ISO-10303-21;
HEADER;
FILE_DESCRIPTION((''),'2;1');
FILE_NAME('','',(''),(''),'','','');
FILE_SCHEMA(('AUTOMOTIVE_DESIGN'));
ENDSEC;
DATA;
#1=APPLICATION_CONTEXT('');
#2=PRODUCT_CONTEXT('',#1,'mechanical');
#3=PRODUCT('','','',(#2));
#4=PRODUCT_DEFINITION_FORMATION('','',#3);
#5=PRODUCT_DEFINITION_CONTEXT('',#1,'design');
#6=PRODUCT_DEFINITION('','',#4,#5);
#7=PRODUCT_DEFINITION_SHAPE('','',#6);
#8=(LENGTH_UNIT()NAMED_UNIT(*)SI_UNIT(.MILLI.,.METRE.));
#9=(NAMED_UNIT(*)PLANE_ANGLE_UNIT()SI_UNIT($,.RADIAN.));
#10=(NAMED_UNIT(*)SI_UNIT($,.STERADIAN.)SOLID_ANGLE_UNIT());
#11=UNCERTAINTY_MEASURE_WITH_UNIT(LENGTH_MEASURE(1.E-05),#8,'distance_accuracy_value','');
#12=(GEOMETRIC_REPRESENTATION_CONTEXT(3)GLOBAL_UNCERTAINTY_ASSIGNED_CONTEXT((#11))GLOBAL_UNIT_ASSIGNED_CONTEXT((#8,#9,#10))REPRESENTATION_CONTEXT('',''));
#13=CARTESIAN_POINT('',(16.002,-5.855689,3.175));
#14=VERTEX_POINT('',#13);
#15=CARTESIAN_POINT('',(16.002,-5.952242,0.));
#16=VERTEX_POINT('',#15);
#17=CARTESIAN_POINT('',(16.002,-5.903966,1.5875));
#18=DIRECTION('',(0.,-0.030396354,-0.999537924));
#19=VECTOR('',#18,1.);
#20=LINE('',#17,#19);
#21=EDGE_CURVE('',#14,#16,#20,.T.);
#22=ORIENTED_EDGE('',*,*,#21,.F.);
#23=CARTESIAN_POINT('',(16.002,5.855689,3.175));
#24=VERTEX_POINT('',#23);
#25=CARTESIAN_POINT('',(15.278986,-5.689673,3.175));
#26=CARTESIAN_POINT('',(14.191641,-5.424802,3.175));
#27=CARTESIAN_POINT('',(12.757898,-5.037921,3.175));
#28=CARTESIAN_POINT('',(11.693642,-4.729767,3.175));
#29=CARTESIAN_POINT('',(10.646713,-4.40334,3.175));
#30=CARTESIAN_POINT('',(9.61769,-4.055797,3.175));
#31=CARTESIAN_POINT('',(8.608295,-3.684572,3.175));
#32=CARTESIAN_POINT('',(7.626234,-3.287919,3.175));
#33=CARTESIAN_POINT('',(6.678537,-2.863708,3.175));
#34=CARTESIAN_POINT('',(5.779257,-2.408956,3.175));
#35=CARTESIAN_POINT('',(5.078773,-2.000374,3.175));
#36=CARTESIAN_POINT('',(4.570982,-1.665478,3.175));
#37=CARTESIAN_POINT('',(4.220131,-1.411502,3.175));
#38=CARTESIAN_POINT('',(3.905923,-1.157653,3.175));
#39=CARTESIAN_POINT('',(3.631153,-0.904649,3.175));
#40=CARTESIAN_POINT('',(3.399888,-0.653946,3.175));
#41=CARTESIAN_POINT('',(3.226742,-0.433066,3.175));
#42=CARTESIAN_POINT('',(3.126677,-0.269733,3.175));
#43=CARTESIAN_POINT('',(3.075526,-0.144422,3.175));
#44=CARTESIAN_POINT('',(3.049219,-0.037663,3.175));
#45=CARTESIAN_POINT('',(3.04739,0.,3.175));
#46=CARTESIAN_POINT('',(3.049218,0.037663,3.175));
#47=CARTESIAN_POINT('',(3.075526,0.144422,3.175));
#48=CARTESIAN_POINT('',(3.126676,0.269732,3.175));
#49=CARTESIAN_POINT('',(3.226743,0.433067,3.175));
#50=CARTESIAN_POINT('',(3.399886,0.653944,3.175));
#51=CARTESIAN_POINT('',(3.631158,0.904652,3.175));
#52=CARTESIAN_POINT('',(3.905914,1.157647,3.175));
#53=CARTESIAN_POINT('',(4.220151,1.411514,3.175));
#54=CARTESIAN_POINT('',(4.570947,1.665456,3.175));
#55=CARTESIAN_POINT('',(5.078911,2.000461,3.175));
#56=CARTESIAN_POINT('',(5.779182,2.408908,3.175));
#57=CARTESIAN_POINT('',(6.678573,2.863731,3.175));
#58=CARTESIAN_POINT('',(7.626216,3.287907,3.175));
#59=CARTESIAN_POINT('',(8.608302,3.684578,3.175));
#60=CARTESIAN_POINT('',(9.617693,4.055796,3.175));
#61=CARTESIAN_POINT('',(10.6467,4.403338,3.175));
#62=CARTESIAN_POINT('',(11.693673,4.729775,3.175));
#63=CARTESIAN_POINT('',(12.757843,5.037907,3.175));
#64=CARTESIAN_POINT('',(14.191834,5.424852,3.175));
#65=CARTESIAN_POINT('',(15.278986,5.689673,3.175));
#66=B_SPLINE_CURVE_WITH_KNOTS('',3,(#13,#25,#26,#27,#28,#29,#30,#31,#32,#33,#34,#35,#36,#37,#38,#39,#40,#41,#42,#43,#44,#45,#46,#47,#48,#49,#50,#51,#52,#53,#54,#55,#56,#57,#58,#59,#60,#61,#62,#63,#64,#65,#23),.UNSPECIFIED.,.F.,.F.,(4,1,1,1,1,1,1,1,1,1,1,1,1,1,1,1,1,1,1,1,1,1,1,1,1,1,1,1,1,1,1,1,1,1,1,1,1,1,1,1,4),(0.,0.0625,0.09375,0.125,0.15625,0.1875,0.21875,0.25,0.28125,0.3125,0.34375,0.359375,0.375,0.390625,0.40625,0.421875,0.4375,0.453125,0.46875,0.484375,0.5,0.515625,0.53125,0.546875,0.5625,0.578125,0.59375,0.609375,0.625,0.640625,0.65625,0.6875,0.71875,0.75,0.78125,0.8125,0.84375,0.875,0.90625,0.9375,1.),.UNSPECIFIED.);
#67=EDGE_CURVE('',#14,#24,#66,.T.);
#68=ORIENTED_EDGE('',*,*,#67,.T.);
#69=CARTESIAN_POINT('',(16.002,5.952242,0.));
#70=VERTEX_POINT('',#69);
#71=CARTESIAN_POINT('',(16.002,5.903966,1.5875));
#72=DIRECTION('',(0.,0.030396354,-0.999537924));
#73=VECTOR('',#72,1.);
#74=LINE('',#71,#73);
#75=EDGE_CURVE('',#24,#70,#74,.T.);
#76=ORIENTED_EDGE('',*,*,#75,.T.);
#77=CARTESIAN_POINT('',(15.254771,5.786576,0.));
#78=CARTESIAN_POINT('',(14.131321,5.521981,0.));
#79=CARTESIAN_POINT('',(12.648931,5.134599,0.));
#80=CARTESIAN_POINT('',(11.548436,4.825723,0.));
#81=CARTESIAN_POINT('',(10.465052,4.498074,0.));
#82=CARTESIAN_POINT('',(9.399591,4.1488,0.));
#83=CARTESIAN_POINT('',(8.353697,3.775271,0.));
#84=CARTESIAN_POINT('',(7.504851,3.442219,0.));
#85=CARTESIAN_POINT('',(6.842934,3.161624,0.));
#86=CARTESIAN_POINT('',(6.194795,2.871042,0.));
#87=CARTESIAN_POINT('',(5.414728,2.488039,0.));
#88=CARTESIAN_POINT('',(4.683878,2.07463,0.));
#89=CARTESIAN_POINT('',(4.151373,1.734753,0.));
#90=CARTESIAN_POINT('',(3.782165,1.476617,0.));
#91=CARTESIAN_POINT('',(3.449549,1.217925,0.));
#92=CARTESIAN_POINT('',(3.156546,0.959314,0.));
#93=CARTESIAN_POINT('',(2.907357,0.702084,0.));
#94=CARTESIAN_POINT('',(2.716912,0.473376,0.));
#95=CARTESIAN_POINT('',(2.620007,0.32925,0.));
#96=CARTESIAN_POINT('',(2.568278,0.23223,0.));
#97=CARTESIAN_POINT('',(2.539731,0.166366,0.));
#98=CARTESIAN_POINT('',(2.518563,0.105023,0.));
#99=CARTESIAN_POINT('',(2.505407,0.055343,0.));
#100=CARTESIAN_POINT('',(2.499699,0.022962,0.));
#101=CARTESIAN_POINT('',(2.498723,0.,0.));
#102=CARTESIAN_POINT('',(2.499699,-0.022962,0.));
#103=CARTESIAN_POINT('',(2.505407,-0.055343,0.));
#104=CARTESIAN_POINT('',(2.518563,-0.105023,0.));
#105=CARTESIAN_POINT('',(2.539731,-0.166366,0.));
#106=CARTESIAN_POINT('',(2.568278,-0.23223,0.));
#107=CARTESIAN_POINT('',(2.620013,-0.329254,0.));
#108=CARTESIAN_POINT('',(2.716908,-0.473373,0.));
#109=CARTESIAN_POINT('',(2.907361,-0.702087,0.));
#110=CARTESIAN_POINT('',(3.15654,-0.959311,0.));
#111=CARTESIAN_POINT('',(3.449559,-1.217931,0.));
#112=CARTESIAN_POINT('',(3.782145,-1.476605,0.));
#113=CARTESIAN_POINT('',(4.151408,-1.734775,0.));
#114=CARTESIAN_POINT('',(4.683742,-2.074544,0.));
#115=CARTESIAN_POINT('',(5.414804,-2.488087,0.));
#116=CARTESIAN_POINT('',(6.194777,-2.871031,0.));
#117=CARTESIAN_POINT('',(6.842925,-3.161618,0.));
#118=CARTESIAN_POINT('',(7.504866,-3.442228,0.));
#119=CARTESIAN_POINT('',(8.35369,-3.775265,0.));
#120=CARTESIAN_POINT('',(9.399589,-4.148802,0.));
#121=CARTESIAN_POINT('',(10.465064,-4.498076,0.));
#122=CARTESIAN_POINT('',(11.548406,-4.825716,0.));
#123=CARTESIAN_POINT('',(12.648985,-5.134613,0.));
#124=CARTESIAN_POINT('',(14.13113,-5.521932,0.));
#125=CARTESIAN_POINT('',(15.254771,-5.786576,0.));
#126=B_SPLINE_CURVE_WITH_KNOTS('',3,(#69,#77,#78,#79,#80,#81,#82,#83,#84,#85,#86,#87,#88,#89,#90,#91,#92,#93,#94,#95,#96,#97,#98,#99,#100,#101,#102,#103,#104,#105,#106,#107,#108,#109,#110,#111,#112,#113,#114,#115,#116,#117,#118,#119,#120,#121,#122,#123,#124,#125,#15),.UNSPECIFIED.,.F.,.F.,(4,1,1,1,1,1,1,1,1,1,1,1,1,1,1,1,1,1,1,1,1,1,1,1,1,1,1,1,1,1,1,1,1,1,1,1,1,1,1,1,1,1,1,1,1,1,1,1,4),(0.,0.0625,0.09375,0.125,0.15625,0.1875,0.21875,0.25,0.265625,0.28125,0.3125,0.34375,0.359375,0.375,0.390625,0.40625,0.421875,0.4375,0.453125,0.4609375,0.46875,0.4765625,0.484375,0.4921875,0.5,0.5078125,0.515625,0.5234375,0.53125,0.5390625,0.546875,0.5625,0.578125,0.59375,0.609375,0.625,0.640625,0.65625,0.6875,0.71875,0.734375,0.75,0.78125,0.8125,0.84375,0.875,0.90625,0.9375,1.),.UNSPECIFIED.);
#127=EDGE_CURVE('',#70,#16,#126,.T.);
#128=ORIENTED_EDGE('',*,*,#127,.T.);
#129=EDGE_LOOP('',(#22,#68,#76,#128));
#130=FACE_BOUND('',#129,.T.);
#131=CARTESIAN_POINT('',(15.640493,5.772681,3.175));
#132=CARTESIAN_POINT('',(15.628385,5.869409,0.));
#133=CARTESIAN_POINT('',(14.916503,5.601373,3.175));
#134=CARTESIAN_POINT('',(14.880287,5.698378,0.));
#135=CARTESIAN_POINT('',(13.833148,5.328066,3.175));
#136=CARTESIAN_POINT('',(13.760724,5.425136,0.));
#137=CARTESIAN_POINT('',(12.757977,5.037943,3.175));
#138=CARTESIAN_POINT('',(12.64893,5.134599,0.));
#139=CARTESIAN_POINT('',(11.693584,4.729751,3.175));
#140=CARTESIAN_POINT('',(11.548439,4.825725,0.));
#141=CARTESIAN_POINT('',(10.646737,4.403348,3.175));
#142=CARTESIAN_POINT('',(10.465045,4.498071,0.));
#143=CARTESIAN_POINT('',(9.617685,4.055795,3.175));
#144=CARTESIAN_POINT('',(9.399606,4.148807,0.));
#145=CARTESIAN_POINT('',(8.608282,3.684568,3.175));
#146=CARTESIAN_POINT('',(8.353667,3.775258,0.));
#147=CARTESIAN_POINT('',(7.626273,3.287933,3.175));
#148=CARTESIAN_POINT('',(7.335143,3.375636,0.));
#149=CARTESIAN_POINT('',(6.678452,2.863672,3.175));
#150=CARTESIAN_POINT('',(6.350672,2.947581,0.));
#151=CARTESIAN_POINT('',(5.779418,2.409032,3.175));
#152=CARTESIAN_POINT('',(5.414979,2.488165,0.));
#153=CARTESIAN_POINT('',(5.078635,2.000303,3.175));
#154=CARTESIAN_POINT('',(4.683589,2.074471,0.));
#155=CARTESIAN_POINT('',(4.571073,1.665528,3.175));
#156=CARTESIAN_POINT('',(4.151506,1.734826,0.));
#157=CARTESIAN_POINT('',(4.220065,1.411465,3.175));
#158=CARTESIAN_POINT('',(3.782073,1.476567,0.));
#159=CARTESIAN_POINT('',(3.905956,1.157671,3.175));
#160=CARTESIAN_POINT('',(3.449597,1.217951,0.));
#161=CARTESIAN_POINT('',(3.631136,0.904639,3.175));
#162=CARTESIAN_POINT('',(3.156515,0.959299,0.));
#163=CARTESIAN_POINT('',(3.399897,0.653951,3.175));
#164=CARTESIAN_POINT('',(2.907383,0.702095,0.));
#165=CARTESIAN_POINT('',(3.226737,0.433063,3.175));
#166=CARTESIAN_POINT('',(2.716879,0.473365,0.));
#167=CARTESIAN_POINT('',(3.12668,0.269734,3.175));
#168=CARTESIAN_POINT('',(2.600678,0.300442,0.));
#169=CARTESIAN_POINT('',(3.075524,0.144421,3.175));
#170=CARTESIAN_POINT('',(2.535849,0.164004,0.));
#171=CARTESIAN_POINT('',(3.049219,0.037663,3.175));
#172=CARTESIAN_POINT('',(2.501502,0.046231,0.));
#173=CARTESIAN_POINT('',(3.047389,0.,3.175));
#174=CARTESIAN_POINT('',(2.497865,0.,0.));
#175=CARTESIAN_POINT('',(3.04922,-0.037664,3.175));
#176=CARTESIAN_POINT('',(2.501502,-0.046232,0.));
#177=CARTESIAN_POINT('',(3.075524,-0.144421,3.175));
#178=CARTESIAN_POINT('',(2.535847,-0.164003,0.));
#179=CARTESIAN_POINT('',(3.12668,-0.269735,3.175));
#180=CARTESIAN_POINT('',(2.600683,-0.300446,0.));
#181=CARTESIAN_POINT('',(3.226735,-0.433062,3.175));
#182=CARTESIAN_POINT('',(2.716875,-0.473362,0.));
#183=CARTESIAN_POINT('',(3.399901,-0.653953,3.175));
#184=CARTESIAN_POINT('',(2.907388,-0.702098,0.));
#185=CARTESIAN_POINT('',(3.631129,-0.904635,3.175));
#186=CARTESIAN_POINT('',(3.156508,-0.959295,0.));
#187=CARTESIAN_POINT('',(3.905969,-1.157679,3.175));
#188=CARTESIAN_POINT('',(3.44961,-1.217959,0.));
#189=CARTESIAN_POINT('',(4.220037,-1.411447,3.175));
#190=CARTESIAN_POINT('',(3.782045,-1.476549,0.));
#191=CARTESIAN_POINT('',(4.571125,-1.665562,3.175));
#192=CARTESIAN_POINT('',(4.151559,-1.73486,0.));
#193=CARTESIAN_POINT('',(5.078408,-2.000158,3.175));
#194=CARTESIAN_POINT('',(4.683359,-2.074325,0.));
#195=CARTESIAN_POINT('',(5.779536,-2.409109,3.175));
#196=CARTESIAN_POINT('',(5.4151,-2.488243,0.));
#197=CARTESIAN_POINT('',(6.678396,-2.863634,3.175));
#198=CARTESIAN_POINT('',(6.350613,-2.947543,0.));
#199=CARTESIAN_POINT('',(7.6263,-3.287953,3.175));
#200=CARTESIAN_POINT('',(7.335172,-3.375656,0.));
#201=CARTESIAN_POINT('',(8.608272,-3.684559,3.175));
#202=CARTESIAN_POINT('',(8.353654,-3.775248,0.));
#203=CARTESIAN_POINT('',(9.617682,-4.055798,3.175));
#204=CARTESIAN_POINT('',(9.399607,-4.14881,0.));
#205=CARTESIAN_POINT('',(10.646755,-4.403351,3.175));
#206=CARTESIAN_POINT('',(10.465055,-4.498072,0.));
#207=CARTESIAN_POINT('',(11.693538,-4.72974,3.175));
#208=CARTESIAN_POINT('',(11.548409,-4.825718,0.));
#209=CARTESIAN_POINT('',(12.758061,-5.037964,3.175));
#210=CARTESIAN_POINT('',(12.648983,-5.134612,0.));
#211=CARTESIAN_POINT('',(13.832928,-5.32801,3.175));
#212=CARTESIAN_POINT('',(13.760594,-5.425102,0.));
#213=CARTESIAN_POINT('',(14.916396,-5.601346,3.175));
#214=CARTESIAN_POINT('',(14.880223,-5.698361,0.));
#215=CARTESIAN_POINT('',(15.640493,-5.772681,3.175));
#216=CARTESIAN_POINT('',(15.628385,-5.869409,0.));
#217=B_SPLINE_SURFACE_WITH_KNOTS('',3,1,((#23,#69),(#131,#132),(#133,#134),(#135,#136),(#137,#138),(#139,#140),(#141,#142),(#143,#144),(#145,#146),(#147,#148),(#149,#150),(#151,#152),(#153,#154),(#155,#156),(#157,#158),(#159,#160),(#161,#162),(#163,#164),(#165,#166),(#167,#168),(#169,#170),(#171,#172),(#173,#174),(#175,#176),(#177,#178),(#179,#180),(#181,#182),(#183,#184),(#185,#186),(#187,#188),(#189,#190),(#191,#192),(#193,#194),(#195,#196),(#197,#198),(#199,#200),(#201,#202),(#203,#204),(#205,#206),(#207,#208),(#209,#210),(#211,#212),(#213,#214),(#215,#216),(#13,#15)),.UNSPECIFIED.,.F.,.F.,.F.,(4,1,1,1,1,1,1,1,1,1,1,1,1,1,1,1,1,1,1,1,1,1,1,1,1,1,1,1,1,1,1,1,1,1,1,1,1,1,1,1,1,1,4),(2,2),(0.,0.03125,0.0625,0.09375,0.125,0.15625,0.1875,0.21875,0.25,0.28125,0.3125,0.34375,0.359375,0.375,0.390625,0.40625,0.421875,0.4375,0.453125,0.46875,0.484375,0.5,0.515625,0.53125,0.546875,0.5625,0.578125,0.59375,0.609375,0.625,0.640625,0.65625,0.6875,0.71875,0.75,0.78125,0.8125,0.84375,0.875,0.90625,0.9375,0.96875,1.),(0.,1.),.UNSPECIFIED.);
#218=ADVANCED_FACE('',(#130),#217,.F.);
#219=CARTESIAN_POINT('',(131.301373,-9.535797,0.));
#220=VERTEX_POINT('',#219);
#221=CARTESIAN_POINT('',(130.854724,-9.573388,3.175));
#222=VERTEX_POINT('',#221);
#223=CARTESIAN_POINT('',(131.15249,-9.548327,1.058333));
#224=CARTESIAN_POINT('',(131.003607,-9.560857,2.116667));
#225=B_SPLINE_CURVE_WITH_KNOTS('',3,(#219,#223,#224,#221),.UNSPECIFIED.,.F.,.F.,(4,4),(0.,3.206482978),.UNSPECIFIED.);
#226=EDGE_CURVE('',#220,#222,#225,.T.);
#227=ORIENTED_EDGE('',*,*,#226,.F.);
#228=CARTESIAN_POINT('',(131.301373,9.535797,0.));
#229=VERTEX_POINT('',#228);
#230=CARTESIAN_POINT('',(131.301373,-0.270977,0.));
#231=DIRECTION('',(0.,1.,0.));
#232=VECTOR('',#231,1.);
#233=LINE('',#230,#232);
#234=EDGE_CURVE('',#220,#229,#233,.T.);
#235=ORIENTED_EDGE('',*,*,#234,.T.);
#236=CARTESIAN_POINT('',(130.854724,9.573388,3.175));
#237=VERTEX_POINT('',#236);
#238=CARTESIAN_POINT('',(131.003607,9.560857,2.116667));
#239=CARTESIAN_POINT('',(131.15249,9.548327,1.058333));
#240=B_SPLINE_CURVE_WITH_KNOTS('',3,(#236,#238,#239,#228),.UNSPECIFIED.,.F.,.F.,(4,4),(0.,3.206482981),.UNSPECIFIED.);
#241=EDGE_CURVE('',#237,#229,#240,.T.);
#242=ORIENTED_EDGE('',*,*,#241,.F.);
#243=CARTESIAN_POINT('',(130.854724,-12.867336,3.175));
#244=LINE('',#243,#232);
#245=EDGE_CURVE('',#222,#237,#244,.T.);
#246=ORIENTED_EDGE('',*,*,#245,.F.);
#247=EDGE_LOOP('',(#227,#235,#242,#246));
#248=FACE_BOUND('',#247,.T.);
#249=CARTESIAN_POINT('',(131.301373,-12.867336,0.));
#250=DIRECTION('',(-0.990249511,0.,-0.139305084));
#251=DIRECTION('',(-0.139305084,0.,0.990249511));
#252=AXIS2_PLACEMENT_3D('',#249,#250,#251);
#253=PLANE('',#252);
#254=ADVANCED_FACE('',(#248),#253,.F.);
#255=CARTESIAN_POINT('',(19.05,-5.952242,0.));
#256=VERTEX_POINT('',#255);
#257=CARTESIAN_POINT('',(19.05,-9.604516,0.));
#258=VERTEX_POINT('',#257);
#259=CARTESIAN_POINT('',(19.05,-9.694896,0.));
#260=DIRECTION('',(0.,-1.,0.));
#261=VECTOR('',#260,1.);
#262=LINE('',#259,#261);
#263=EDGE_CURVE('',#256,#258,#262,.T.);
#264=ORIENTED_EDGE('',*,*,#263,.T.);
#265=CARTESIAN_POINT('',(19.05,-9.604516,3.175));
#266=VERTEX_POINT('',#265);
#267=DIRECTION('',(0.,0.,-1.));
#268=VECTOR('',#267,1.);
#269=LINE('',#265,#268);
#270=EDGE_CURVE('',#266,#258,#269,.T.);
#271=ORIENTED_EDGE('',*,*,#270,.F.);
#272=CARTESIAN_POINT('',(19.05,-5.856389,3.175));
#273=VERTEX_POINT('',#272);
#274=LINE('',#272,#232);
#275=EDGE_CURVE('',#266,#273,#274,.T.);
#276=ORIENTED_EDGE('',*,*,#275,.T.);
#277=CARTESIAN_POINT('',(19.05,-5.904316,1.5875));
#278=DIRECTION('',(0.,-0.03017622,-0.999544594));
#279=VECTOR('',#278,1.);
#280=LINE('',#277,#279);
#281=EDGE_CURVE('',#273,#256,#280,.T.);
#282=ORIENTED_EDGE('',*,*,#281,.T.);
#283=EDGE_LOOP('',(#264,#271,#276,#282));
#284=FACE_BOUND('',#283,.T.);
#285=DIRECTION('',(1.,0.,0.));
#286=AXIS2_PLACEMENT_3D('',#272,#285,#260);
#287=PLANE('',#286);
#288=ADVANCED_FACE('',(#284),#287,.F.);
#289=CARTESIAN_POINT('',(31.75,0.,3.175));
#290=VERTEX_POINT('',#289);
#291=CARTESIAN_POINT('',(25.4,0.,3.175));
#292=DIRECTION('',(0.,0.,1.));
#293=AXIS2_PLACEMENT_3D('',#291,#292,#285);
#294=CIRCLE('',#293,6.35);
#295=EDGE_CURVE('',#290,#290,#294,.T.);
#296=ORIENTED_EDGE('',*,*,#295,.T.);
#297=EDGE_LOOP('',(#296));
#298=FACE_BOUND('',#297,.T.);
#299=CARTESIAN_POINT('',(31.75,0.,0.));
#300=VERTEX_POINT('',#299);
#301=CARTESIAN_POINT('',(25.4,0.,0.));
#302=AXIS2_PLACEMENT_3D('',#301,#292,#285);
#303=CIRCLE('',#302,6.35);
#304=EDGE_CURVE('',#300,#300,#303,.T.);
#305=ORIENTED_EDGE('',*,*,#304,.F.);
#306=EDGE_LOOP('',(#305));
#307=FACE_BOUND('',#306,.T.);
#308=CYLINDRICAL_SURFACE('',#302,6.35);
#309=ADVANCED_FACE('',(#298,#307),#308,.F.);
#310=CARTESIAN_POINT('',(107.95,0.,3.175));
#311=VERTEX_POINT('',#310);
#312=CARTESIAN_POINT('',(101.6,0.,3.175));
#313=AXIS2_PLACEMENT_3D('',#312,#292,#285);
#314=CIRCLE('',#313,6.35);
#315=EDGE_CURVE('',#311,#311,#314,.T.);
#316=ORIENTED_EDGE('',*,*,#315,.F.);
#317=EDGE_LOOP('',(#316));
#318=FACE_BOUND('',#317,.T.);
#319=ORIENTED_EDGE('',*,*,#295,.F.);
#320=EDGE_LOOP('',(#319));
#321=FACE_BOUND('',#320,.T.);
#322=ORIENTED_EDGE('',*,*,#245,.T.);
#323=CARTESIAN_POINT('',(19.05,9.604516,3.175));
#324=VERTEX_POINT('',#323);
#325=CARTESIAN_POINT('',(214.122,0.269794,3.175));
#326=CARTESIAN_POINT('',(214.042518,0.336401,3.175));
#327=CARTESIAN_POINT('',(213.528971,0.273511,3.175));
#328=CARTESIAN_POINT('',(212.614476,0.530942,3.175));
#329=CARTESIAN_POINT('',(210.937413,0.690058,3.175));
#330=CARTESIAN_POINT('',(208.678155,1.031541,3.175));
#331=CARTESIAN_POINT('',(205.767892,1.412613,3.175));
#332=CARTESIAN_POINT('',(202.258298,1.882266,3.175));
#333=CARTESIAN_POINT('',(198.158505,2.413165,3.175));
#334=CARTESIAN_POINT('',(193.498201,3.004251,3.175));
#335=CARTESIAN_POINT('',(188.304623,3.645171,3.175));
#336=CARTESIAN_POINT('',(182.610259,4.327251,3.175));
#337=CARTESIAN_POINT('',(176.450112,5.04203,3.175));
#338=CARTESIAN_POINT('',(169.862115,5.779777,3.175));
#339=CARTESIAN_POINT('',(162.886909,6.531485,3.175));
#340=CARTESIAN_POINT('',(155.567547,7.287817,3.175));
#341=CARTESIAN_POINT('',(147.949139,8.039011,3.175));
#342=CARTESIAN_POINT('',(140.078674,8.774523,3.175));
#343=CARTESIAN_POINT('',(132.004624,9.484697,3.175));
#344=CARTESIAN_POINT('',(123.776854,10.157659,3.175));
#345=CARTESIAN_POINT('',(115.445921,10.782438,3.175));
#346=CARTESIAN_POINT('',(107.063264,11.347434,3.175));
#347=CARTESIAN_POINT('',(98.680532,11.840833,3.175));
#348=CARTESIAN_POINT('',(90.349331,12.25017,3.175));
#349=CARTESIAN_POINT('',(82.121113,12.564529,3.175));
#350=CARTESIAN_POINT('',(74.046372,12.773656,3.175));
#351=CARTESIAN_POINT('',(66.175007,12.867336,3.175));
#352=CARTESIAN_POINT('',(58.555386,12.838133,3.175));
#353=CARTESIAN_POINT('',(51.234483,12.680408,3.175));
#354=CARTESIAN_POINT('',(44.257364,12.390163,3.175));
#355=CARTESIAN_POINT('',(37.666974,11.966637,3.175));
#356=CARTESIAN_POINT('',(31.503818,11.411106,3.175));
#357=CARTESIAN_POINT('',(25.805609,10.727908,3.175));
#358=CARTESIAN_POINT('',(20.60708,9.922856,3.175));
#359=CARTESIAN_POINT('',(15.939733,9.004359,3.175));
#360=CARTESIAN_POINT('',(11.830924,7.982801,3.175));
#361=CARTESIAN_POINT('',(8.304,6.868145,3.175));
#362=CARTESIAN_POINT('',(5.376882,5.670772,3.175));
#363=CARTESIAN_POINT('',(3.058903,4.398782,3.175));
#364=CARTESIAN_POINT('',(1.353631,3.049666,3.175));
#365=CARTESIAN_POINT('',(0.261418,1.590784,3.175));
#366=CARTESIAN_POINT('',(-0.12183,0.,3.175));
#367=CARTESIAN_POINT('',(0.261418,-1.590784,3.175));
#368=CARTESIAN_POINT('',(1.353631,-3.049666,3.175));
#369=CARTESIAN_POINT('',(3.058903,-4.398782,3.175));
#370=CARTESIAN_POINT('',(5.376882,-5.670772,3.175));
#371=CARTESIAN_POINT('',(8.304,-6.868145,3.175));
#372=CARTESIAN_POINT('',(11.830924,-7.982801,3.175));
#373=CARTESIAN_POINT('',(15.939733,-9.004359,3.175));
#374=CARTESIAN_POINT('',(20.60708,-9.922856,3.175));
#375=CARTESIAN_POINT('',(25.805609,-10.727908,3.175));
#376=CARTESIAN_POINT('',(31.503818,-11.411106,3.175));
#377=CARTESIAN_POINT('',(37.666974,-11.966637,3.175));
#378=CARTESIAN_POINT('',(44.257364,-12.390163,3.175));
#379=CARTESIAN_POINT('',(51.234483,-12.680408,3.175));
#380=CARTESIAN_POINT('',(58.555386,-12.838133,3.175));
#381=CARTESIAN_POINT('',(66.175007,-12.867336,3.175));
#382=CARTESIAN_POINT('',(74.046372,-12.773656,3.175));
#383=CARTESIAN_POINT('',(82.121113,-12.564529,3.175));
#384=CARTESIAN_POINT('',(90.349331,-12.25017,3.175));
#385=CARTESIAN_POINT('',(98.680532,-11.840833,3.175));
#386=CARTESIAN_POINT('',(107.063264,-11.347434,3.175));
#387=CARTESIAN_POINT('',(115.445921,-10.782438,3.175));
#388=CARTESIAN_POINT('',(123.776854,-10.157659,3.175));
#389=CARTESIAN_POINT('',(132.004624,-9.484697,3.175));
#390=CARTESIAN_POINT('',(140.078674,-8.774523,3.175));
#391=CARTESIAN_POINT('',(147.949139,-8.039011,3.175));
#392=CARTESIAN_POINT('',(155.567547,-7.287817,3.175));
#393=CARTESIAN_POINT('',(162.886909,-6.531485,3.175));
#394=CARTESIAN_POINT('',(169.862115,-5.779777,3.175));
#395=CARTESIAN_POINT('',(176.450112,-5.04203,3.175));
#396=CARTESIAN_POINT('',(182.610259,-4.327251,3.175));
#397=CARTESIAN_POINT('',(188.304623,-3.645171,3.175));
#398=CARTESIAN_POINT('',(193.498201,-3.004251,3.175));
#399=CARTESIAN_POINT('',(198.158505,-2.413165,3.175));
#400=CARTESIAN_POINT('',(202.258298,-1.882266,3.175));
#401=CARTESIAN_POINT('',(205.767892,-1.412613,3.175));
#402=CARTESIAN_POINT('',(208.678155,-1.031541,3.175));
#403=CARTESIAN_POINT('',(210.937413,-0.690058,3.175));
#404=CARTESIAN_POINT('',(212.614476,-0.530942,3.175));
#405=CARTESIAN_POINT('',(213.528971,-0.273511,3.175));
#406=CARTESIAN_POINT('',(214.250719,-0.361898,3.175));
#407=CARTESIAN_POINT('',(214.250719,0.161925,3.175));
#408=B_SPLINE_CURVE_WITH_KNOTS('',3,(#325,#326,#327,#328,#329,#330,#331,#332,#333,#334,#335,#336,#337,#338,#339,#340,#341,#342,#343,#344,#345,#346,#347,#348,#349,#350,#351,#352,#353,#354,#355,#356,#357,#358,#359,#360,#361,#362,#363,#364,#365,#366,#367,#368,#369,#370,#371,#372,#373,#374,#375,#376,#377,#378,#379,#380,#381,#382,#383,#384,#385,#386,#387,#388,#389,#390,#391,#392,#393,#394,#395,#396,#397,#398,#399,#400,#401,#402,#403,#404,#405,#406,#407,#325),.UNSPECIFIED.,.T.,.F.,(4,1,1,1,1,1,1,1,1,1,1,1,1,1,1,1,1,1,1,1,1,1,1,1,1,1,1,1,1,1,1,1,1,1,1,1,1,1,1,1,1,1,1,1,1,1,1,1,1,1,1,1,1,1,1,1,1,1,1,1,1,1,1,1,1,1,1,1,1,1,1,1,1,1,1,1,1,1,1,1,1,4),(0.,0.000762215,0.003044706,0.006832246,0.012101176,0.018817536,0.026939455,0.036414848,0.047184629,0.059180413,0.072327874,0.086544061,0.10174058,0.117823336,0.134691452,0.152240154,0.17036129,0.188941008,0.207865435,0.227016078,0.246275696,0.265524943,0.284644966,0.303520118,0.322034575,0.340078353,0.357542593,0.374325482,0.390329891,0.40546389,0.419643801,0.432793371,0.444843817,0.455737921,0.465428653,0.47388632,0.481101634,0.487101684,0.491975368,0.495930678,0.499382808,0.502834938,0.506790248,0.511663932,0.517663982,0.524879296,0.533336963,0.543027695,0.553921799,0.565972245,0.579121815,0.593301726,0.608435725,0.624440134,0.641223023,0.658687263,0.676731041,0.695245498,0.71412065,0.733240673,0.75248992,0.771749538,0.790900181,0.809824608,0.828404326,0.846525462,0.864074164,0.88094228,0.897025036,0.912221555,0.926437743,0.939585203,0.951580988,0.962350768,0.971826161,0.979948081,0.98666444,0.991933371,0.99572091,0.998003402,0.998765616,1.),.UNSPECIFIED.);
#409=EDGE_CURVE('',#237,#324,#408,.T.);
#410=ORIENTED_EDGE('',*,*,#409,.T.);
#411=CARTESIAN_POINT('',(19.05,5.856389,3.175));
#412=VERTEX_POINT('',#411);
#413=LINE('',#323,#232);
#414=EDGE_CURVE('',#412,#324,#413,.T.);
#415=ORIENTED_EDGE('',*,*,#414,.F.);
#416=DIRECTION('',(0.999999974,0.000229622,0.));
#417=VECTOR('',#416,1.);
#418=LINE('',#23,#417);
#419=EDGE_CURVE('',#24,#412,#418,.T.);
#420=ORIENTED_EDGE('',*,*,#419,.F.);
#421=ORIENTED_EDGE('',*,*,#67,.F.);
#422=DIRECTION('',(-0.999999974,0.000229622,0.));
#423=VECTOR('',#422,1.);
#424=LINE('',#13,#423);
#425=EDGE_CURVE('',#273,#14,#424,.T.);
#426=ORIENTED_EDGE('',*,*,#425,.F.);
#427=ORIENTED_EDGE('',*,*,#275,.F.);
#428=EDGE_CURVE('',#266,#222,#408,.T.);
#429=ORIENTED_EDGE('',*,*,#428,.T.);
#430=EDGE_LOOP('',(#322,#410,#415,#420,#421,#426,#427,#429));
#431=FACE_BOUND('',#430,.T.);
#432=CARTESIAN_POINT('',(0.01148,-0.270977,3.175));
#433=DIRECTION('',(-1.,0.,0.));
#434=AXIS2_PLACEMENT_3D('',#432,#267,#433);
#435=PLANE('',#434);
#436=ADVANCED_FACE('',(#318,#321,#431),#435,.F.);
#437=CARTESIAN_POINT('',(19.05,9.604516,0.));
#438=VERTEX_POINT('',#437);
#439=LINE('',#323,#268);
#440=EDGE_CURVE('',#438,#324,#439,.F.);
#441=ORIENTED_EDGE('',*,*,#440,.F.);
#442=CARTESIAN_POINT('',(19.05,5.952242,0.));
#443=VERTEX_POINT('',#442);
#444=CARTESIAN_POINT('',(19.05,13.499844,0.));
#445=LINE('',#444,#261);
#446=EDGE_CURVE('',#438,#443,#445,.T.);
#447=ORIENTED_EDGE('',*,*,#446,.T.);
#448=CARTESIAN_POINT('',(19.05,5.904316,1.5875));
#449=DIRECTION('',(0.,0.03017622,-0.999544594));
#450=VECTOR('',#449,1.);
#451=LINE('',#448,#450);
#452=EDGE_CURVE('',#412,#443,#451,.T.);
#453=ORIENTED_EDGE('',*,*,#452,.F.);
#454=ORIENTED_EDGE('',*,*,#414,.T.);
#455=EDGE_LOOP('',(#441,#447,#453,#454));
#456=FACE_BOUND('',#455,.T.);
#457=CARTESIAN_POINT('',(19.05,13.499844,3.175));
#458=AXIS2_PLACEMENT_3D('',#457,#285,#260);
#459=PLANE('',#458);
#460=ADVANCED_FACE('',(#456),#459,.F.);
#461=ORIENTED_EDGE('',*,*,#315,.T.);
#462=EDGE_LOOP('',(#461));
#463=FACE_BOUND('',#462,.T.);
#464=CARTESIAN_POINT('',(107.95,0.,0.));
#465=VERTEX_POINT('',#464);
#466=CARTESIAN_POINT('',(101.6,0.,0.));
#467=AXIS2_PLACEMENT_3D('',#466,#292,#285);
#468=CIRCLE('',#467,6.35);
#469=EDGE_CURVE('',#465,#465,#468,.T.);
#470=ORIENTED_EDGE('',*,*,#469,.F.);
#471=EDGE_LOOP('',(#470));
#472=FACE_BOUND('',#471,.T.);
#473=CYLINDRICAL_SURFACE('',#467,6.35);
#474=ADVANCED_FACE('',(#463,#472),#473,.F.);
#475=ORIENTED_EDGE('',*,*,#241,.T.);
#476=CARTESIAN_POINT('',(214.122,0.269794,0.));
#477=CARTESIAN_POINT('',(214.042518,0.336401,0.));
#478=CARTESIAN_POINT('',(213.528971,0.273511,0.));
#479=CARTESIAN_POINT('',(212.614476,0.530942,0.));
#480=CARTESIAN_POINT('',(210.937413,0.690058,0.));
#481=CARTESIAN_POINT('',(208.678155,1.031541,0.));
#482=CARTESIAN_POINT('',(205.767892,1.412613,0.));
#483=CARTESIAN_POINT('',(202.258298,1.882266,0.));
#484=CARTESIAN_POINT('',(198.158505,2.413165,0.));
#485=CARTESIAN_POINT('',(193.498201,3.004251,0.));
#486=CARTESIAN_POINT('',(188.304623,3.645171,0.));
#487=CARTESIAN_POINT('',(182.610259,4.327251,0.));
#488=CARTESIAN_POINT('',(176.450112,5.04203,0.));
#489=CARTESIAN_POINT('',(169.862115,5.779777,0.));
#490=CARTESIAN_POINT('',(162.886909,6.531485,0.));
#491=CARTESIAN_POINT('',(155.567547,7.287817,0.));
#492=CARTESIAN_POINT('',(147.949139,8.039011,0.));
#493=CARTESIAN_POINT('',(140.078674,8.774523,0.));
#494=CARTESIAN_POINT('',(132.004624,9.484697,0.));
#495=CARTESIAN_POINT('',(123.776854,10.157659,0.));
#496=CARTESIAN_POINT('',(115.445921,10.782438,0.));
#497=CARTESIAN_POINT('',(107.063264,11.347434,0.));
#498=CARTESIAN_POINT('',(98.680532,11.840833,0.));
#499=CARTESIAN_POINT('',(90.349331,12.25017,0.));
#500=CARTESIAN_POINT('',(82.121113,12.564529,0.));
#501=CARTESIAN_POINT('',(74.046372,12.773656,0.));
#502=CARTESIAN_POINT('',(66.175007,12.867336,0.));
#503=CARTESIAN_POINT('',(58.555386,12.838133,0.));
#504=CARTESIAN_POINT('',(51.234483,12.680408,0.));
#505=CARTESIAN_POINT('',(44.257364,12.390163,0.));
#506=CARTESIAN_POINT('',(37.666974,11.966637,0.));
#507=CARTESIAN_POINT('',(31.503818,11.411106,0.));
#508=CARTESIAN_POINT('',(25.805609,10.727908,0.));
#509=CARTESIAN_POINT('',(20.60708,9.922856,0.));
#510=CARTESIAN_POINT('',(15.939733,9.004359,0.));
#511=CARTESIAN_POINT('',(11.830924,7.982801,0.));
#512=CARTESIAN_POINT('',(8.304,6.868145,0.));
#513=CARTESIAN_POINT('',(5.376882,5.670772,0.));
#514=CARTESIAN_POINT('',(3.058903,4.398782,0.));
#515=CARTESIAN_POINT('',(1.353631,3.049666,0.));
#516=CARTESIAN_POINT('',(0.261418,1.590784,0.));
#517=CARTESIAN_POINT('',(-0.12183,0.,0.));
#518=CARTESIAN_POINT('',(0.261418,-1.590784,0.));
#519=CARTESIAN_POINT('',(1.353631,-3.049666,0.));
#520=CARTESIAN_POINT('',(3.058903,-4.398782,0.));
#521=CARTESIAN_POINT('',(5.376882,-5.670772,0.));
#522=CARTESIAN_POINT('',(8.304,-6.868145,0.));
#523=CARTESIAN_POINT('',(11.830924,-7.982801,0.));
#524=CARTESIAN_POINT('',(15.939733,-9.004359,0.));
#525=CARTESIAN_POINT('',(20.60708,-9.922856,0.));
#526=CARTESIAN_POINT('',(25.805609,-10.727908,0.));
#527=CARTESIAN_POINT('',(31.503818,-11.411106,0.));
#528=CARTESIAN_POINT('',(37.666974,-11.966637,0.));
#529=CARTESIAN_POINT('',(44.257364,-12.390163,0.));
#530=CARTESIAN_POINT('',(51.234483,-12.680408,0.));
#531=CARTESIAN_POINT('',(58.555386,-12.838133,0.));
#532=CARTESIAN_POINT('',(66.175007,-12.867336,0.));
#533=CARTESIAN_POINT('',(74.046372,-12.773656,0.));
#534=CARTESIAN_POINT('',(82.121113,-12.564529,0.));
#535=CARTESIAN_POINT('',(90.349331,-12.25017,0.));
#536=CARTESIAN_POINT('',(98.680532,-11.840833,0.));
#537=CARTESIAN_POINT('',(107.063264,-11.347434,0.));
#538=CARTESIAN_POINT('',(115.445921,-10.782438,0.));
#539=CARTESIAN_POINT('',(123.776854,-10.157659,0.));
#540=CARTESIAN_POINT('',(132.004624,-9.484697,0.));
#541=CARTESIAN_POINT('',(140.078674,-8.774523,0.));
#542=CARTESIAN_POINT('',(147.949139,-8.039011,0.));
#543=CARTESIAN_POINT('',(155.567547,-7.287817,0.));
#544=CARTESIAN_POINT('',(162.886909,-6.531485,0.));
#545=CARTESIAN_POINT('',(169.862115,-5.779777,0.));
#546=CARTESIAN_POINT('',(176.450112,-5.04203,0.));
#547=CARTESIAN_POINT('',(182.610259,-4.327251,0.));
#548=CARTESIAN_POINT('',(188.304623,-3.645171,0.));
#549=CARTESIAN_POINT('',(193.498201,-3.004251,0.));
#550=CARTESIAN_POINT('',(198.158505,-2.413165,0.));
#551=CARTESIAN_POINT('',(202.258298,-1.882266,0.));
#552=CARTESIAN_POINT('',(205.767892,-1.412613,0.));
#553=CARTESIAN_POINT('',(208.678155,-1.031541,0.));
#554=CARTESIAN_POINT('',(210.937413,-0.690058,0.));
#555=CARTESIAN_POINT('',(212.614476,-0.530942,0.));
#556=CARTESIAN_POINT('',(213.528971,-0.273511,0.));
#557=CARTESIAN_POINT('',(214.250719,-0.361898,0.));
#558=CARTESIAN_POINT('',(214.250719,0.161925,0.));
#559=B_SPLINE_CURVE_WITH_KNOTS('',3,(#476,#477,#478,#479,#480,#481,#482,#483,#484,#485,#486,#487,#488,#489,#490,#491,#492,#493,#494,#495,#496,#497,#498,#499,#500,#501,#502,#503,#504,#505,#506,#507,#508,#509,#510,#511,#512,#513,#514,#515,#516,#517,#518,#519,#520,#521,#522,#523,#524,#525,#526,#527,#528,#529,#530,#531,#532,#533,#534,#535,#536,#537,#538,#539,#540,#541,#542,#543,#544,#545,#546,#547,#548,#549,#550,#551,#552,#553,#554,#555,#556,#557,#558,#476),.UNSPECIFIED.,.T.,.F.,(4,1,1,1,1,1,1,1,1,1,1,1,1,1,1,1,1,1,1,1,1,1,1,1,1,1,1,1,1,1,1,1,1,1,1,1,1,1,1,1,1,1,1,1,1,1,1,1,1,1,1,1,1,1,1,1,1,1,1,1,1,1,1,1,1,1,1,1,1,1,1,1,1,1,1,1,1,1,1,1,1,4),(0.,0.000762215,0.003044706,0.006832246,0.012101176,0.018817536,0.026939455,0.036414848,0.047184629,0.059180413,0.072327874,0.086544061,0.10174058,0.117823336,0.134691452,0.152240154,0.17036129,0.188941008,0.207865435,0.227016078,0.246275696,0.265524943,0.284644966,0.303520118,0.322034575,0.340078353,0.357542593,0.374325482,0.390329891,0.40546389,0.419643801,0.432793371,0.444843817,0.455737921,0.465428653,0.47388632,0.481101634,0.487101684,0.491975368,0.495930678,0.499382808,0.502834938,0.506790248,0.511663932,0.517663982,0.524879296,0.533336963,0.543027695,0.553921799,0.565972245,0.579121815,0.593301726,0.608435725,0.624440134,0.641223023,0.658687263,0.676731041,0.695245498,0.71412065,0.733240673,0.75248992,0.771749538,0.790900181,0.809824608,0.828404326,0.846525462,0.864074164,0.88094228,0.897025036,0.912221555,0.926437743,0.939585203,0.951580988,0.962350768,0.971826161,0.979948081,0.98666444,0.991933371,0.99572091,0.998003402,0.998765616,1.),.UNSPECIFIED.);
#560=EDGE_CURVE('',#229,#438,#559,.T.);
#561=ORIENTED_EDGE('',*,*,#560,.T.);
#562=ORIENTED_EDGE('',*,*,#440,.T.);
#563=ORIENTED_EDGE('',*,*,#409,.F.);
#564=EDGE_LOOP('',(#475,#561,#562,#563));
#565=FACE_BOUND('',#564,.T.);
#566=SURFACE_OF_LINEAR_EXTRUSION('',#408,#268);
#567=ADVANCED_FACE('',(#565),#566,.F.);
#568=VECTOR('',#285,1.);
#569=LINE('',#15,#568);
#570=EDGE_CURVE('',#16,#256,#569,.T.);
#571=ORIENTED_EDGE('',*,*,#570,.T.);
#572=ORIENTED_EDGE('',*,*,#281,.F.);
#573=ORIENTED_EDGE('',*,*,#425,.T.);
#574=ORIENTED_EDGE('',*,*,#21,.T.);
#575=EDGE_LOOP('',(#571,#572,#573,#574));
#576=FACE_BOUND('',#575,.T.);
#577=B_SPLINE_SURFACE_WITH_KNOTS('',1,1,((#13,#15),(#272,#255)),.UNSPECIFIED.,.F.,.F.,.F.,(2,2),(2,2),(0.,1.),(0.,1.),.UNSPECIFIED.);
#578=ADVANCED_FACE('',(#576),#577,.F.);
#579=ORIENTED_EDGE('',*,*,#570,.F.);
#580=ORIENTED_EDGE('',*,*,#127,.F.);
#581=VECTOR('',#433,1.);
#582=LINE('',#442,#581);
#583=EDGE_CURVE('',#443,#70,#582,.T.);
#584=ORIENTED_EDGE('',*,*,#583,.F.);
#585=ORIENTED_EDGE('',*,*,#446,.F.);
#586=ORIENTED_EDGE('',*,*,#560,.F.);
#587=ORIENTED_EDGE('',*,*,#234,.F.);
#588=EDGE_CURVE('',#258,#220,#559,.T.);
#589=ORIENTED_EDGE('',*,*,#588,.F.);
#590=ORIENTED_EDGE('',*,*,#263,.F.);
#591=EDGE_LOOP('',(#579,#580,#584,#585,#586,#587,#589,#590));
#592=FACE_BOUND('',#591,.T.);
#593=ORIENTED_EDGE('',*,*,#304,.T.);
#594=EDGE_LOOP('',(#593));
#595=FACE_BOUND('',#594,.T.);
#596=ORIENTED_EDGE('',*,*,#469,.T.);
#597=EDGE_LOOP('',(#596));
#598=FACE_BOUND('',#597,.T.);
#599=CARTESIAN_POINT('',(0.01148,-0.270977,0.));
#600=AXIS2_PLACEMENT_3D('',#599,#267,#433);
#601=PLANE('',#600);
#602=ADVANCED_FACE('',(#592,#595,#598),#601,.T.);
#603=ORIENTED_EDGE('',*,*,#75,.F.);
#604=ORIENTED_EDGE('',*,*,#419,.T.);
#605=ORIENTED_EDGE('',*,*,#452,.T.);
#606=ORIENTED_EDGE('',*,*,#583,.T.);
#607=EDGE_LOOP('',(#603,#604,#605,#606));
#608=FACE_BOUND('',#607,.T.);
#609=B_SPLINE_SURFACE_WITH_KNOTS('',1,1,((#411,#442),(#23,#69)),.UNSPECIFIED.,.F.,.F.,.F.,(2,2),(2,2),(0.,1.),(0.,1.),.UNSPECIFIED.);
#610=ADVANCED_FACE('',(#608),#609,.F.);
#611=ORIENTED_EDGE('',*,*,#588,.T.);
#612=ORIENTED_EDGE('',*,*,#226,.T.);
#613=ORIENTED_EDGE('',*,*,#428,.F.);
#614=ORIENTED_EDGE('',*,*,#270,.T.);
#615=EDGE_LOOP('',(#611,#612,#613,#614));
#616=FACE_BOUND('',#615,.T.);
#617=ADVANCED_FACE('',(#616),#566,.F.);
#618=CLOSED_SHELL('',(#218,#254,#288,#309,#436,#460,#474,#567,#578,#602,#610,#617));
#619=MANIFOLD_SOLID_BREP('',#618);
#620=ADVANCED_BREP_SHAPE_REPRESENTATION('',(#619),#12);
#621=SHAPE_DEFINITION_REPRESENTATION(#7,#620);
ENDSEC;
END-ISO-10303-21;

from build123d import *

# Parameters (mm, degrees)
BOSS_EXTRUDE1_DEPTH     = 3.175
SKETCH2_R               = 6.35
CUT_EXTRUDE1_DEPTH      = 4.1750001
CUT_EXTRUDE2_DEPTH      = 13.851031146
CUT_EXTRUDE2_DEPTH_BACK = 13.851031146


with BuildPart() as part:
    # Sketch1 → Boss-Extrude1 (new body)
    with BuildSketch(Plane.XY):
        with BuildLine():
            add(Edge.make_bspline(
                [(214.122, 0.26979372), (214.042517561, 0.336401081), (213.528971009, 0.273510814), (212.614475706, 0.530942112), (210.937412976, 0.69005818), (208.678154781, 1.031540783), (205.767891794, 1.412612557), (202.258298365, 1.882266), (198.158505405, 2.4131646), (193.498201346, 3.004251359), (188.3046229, 3.645171414), (182.610259265, 4.327250831), (176.450111776, 5.042029836), (169.862114854, 5.779776892), (162.886908752, 6.531484704), (155.567547263, 7.287816965), (147.949138879, 8.039011284), (140.078674392, 8.774523149), (132.004623532, 9.484696808), (123.776853773, 10.157659428), (115.445921162, 10.782438327), (107.063264355, 11.347433986), (98.680532246, 11.840832833), (90.349330839, 12.250169768), (82.121113367, 12.564529441), (74.046372156, 12.77365626), (66.175007458, 12.867335678), (58.555385553, 12.838133258), (51.234483397, 12.680408315), (44.257364483, 12.390162696), (37.666974317, 11.966637162), (31.503817676, 11.411106073), (25.805608692, 10.727908153), (20.607079774, 9.922856403), (15.939732749, 9.004358901), (11.830923582, 7.982801344), (8.304000309, 6.868145192), (5.376882013, 5.670771919), (3.058903356, 4.398782317), (1.353631156, 3.049665872), (0.261418186, 1.590784391), (-0.121830169, 0), (0.261418186, -1.590784391), (1.353631156, -3.049665872), (3.058903356, -4.398782317), (5.376882013, -5.670771919), (8.304000309, -6.868145192), (11.830923582, -7.982801344), (15.939732749, -9.004358901), (20.607079774, -9.922856403), (25.805608692, -10.727908153), (31.503817676, -11.411106073), (37.666974317, -11.966637162), (44.257364483, -12.390162696), (51.234483397, -12.680408315), (58.555385553, -12.838133258), (66.175007458, -12.867335678), (74.046372156, -12.77365626), (82.121113367, -12.564529441), (90.349330839, -12.250169768), (98.680532246, -11.840832833), (107.063264355, -11.347433986), (115.445921162, -10.782438327), (123.776853773, -10.157659428), (132.004623532, -9.484696808), (140.078674392, -8.774523149), (147.949138879, -8.039011284), (155.567547263, -7.287816965), (162.886908752, -6.531484704), (169.862114854, -5.779776892), (176.450111776, -5.042029836), (182.610259265, -4.327250831), (188.3046229, -3.645171414), (193.498201346, -3.004251359), (198.158505405, -2.4131646), (202.258298365, -1.882266), (205.767891794, -1.412612557), (208.678154781, -1.031540783), (210.937412976, -0.69005818), (212.614475706, -0.530942112), (213.528971009, -0.273510814), (214.25071943, -0.361898032), (214.25071943, 0.161925093), (214.122, 0.26979372)],
                knots=[0, 0, 0, 0, 0.000762215, 0.003044706, 0.006832246, 0.012101176, 0.018817536, 0.026939455, 0.036414848, 0.047184629, 0.059180413, 0.072327874, 0.086544061, 0.10174058, 0.117823336, 0.134691452, 0.152240154, 0.17036129, 0.188941008, 0.207865435, 0.227016078, 0.246275696, 0.265524943, 0.284644966, 0.303520118, 0.322034575, 0.340078353, 0.357542593, 0.374325482, 0.390329891, 0.40546389, 0.419643801, 0.432793371, 0.444843817, 0.455737921, 0.465428653, 0.47388632, 0.481101634, 0.487101684, 0.491975368, 0.495930678, 0.499382808, 0.502834938, 0.506790248, 0.511663932, 0.517663982, 0.524879296, 0.533336963, 0.543027695, 0.553921799, 0.565972245, 0.579121815, 0.593301726, 0.608435725, 0.624440134, 0.641223023, 0.658687263, 0.676731041, 0.695245498, 0.71412065, 0.733240673, 0.75248992, 0.771749538, 0.790900181, 0.809824608, 0.828404326, 0.846525462, 0.864074164, 0.88094228, 0.897025036, 0.912221555, 0.926437743, 0.939585203, 0.951580988, 0.962350768, 0.971826161, 0.979948081, 0.98666444, 0.991933371, 0.99572091, 0.998003402, 0.998765616, 1, 1, 1, 1], degree=3))
        make_face()
    extrude(amount=BOSS_EXTRUDE1_DEPTH)

    # Sketch2 → Cut-Extrude1 (cut, through all)
    with BuildSketch(Plane.XY.offset(3.175)):
        with Locations((25.4, 0)):
            Circle(SKETCH2_R)
        with Locations((101.6, 0)):
            Circle(SKETCH2_R)
    extrude(amount=-CUT_EXTRUDE1_DEPTH, mode=Mode.SUBTRACT)

    # Sketch4 → Cut-Extrude2 (cut, two sides)
    with BuildSketch(Plane(origin=(0, 0, 0), x_dir=(1, 0, 0), z_dir=(0, 1, 0))) as cut_extrude2_sk:
        Polygon((131.301372669, 0), (130.854723983, -3.175), (214.218539573, -3.175), (214.218539573, 0), align=None)
    extrude(amount=CUT_EXTRUDE2_DEPTH, mode=Mode.SUBTRACT)
    extrude(cut_extrude2_sk.sketch, amount=-CUT_EXTRUDE2_DEPTH_BACK, mode=Mode.SUBTRACT)

    # Sketch6 → Cut-Loft1 section 0
    with BuildSketch(Plane.XY.offset(3.175)):
        with BuildLine():
            Line((19.05, -5.856388973), (19.05, -9.60451625))
            Line((19.05, -9.60451625), (19.05, -13.496705478))
            Line((19.05, -13.496705478), (-3.17679028, -18.7418168))
            Line((-3.17679028, -18.7418168), (-7.400210772, 8.670878009))
            Line((-7.400210772, 8.670878009), (19.05, 13.499844305))
            Line((19.05, 13.499844305), (19.05, 9.60451625))
            Line((19.05, 9.60451625), (19.05, 5.856388972))
            Line((19.05, 5.856388972), (16.002, 5.855689085))
            add(Edge.make_bspline(
                [(16.002, 5.855689085), (15.278985699, 5.689672728), (14.191834186, 5.424851558), (12.757843363, 5.037907465), (11.69367278, 4.729775055), (10.646700316, 4.403337894), (9.617692504, 4.055796047), (8.608301637, 3.684577658), (7.626216232, 3.28790719), (6.678573411, 2.8637313), (5.779182107, 2.40890834), (5.078910801, 2.000461241), (4.5709467, 1.665455737), (4.220151013, 1.411514439), (3.905914023, 1.157647081), (3.631157505, 0.904651906), (3.399885574, 0.653944439), (3.226743451, 0.433066972), (3.126676284, 0.2697322), (3.07552602, 0.144421915), (3.049218429, 0.037663177), (3.047390298, 5.5e-08), (3.04921854, -0.03766331), (3.075525744, -0.1444217), (3.126676947, -0.269732641), (3.226742145, -0.433066135), (3.399888053, -0.653946015), (3.631152817, -0.904648933), (3.905923107, -1.157652839), (4.220131475, -1.411502059), (4.570981553, -1.665477812), (5.078773369, -2.000374258), (5.77925724, -2.408956031), (6.678536824, -2.863707828), (7.626233895, -3.287919031), (8.608295197, -3.684572243), (9.617690306, -4.05579733), (10.64671253, -4.403340225), (11.693641898, -4.729767367), (12.757897505, -5.037921267), (14.191640812, -5.424801637), (15.278985699, -5.689672728), (16.002, -5.855689085)],
                knots=[0, 0, 0, 0, 0.0625, 0.09375, 0.125, 0.15625, 0.1875, 0.21875, 0.25, 0.28125, 0.3125, 0.34375, 0.359375, 0.375, 0.390625, 0.40625, 0.421875, 0.4375, 0.453125, 0.46875, 0.484375, 0.5, 0.515625, 0.53125, 0.546875, 0.5625, 0.578125, 0.59375, 0.609375, 0.625, 0.640625, 0.65625, 0.6875, 0.71875, 0.75, 0.78125, 0.8125, 0.84375, 0.875, 0.90625, 0.9375, 1, 1, 1, 1], degree=3))
            Line((16.002, -5.855689085), (19.05, -5.856388973))
        make_face()
    # Sketch5 → Cut-Loft1 section 1
    with BuildSketch(Plane(origin=(0, 0, 0), x_dir=(-1, 0, 0), z_dir=(0, 0, -1))):
        with BuildLine():
            Line((-19.05, -9.69489598), (-19.05, -5.952242124))
            Line((-19.05, -5.952242124), (-16.002, -5.952242124))
            add(Edge.make_bspline(
                [(-16.002, 5.952242124), (-15.254770655, 5.78657596), (-14.131320952, 5.521981031), (-12.64893123, 5.134599211), (-11.548436123, 4.825723352), (-10.465051878, 4.498073941), (-9.399590771, 4.148800211), (-8.353696965, 3.775270971), (-7.504851445, 3.442218555), (-6.842934482, 3.161623807), (-6.194794877, 2.871042337), (-5.414728041, 2.488039147), (-4.683877816, 2.074629942), (-4.151373193, 1.734752799), (-3.782164679, 1.476616997), (-3.449549124, 1.21792525), (-3.156545696, 0.959314296), (-2.90735717, 0.702084345), (-2.716911913, 0.473376027), (-2.620007494, 0.329250424), (-2.568278365, 0.232230216), (-2.539730887, 0.166366119), (-2.518563335, 0.105023254), (-2.505407276, 0.055343345), (-2.499698937, 0.022962059), (-2.498722808, 3.7e-08), (-2.499699014, -0.022962102), (-2.505407277, -0.055343359), (-2.518563346, -0.105023288), (-2.539730598, -0.166365891), (-2.568278462, -0.232230258), (-2.620012631, -0.329254292), (-2.716907842, -0.47337309), (-2.907361053, -0.702086989), (-3.156540251, -0.959310743), (-3.449558648, -1.217931354), (-3.782145051, -1.476604524), (-4.151407833, -1.734774759), (-4.683741695, -2.074543768), (-5.414804155, -2.48808676), (-6.194777113, -2.871030834), (-6.84292503, -3.16161805), (-7.50486635, -3.442227642), (-8.353689563, -3.77526546), (-9.399589141, -4.148801556), (-10.465063669, -4.498076208), (-11.54840573, -4.825715767), (-12.648984703, -5.134612855), (-14.131129756, -5.52193166), (-15.254770655, -5.78657596), (-16.002, -5.952242124)],
                knots=[0, 0, 0, 0, 0.0625, 0.09375, 0.125, 0.15625, 0.1875, 0.21875, 0.25, 0.265625, 0.28125, 0.3125, 0.34375, 0.359375, 0.375, 0.390625, 0.40625, 0.421875, 0.4375, 0.453125, 0.4609375, 0.46875, 0.4765625, 0.484375, 0.4921875, 0.5, 0.5078125, 0.515625, 0.5234375, 0.53125, 0.5390625, 0.546875, 0.5625, 0.578125, 0.59375, 0.609375, 0.625, 0.640625, 0.65625, 0.6875, 0.71875, 0.734375, 0.75, 0.78125, 0.8125, 0.84375, 0.875, 0.90625, 0.9375, 1, 1, 1, 1], degree=3))
            Line((-16.002, 5.952242124), (-19.05, 5.952242124))
            Line((-19.05, 5.952242124), (-19.05, 9.69489598))
            Line((-19.05, 9.69489598), (-19.05, 12.377646409))
            Line((-19.05, 12.377646409), (3.93721866, 8.635694366))
            Line((3.93721866, 8.635694366), (2.51171312, -11.744580154))
            Line((2.51171312, -11.744580154), (-19.05, -12.301418255))
            Line((-19.05, -12.301418255), (-19.05, -9.69489598))
        make_face()
    loft(mode=Mode.SUBTRACT)


solid = part.part
